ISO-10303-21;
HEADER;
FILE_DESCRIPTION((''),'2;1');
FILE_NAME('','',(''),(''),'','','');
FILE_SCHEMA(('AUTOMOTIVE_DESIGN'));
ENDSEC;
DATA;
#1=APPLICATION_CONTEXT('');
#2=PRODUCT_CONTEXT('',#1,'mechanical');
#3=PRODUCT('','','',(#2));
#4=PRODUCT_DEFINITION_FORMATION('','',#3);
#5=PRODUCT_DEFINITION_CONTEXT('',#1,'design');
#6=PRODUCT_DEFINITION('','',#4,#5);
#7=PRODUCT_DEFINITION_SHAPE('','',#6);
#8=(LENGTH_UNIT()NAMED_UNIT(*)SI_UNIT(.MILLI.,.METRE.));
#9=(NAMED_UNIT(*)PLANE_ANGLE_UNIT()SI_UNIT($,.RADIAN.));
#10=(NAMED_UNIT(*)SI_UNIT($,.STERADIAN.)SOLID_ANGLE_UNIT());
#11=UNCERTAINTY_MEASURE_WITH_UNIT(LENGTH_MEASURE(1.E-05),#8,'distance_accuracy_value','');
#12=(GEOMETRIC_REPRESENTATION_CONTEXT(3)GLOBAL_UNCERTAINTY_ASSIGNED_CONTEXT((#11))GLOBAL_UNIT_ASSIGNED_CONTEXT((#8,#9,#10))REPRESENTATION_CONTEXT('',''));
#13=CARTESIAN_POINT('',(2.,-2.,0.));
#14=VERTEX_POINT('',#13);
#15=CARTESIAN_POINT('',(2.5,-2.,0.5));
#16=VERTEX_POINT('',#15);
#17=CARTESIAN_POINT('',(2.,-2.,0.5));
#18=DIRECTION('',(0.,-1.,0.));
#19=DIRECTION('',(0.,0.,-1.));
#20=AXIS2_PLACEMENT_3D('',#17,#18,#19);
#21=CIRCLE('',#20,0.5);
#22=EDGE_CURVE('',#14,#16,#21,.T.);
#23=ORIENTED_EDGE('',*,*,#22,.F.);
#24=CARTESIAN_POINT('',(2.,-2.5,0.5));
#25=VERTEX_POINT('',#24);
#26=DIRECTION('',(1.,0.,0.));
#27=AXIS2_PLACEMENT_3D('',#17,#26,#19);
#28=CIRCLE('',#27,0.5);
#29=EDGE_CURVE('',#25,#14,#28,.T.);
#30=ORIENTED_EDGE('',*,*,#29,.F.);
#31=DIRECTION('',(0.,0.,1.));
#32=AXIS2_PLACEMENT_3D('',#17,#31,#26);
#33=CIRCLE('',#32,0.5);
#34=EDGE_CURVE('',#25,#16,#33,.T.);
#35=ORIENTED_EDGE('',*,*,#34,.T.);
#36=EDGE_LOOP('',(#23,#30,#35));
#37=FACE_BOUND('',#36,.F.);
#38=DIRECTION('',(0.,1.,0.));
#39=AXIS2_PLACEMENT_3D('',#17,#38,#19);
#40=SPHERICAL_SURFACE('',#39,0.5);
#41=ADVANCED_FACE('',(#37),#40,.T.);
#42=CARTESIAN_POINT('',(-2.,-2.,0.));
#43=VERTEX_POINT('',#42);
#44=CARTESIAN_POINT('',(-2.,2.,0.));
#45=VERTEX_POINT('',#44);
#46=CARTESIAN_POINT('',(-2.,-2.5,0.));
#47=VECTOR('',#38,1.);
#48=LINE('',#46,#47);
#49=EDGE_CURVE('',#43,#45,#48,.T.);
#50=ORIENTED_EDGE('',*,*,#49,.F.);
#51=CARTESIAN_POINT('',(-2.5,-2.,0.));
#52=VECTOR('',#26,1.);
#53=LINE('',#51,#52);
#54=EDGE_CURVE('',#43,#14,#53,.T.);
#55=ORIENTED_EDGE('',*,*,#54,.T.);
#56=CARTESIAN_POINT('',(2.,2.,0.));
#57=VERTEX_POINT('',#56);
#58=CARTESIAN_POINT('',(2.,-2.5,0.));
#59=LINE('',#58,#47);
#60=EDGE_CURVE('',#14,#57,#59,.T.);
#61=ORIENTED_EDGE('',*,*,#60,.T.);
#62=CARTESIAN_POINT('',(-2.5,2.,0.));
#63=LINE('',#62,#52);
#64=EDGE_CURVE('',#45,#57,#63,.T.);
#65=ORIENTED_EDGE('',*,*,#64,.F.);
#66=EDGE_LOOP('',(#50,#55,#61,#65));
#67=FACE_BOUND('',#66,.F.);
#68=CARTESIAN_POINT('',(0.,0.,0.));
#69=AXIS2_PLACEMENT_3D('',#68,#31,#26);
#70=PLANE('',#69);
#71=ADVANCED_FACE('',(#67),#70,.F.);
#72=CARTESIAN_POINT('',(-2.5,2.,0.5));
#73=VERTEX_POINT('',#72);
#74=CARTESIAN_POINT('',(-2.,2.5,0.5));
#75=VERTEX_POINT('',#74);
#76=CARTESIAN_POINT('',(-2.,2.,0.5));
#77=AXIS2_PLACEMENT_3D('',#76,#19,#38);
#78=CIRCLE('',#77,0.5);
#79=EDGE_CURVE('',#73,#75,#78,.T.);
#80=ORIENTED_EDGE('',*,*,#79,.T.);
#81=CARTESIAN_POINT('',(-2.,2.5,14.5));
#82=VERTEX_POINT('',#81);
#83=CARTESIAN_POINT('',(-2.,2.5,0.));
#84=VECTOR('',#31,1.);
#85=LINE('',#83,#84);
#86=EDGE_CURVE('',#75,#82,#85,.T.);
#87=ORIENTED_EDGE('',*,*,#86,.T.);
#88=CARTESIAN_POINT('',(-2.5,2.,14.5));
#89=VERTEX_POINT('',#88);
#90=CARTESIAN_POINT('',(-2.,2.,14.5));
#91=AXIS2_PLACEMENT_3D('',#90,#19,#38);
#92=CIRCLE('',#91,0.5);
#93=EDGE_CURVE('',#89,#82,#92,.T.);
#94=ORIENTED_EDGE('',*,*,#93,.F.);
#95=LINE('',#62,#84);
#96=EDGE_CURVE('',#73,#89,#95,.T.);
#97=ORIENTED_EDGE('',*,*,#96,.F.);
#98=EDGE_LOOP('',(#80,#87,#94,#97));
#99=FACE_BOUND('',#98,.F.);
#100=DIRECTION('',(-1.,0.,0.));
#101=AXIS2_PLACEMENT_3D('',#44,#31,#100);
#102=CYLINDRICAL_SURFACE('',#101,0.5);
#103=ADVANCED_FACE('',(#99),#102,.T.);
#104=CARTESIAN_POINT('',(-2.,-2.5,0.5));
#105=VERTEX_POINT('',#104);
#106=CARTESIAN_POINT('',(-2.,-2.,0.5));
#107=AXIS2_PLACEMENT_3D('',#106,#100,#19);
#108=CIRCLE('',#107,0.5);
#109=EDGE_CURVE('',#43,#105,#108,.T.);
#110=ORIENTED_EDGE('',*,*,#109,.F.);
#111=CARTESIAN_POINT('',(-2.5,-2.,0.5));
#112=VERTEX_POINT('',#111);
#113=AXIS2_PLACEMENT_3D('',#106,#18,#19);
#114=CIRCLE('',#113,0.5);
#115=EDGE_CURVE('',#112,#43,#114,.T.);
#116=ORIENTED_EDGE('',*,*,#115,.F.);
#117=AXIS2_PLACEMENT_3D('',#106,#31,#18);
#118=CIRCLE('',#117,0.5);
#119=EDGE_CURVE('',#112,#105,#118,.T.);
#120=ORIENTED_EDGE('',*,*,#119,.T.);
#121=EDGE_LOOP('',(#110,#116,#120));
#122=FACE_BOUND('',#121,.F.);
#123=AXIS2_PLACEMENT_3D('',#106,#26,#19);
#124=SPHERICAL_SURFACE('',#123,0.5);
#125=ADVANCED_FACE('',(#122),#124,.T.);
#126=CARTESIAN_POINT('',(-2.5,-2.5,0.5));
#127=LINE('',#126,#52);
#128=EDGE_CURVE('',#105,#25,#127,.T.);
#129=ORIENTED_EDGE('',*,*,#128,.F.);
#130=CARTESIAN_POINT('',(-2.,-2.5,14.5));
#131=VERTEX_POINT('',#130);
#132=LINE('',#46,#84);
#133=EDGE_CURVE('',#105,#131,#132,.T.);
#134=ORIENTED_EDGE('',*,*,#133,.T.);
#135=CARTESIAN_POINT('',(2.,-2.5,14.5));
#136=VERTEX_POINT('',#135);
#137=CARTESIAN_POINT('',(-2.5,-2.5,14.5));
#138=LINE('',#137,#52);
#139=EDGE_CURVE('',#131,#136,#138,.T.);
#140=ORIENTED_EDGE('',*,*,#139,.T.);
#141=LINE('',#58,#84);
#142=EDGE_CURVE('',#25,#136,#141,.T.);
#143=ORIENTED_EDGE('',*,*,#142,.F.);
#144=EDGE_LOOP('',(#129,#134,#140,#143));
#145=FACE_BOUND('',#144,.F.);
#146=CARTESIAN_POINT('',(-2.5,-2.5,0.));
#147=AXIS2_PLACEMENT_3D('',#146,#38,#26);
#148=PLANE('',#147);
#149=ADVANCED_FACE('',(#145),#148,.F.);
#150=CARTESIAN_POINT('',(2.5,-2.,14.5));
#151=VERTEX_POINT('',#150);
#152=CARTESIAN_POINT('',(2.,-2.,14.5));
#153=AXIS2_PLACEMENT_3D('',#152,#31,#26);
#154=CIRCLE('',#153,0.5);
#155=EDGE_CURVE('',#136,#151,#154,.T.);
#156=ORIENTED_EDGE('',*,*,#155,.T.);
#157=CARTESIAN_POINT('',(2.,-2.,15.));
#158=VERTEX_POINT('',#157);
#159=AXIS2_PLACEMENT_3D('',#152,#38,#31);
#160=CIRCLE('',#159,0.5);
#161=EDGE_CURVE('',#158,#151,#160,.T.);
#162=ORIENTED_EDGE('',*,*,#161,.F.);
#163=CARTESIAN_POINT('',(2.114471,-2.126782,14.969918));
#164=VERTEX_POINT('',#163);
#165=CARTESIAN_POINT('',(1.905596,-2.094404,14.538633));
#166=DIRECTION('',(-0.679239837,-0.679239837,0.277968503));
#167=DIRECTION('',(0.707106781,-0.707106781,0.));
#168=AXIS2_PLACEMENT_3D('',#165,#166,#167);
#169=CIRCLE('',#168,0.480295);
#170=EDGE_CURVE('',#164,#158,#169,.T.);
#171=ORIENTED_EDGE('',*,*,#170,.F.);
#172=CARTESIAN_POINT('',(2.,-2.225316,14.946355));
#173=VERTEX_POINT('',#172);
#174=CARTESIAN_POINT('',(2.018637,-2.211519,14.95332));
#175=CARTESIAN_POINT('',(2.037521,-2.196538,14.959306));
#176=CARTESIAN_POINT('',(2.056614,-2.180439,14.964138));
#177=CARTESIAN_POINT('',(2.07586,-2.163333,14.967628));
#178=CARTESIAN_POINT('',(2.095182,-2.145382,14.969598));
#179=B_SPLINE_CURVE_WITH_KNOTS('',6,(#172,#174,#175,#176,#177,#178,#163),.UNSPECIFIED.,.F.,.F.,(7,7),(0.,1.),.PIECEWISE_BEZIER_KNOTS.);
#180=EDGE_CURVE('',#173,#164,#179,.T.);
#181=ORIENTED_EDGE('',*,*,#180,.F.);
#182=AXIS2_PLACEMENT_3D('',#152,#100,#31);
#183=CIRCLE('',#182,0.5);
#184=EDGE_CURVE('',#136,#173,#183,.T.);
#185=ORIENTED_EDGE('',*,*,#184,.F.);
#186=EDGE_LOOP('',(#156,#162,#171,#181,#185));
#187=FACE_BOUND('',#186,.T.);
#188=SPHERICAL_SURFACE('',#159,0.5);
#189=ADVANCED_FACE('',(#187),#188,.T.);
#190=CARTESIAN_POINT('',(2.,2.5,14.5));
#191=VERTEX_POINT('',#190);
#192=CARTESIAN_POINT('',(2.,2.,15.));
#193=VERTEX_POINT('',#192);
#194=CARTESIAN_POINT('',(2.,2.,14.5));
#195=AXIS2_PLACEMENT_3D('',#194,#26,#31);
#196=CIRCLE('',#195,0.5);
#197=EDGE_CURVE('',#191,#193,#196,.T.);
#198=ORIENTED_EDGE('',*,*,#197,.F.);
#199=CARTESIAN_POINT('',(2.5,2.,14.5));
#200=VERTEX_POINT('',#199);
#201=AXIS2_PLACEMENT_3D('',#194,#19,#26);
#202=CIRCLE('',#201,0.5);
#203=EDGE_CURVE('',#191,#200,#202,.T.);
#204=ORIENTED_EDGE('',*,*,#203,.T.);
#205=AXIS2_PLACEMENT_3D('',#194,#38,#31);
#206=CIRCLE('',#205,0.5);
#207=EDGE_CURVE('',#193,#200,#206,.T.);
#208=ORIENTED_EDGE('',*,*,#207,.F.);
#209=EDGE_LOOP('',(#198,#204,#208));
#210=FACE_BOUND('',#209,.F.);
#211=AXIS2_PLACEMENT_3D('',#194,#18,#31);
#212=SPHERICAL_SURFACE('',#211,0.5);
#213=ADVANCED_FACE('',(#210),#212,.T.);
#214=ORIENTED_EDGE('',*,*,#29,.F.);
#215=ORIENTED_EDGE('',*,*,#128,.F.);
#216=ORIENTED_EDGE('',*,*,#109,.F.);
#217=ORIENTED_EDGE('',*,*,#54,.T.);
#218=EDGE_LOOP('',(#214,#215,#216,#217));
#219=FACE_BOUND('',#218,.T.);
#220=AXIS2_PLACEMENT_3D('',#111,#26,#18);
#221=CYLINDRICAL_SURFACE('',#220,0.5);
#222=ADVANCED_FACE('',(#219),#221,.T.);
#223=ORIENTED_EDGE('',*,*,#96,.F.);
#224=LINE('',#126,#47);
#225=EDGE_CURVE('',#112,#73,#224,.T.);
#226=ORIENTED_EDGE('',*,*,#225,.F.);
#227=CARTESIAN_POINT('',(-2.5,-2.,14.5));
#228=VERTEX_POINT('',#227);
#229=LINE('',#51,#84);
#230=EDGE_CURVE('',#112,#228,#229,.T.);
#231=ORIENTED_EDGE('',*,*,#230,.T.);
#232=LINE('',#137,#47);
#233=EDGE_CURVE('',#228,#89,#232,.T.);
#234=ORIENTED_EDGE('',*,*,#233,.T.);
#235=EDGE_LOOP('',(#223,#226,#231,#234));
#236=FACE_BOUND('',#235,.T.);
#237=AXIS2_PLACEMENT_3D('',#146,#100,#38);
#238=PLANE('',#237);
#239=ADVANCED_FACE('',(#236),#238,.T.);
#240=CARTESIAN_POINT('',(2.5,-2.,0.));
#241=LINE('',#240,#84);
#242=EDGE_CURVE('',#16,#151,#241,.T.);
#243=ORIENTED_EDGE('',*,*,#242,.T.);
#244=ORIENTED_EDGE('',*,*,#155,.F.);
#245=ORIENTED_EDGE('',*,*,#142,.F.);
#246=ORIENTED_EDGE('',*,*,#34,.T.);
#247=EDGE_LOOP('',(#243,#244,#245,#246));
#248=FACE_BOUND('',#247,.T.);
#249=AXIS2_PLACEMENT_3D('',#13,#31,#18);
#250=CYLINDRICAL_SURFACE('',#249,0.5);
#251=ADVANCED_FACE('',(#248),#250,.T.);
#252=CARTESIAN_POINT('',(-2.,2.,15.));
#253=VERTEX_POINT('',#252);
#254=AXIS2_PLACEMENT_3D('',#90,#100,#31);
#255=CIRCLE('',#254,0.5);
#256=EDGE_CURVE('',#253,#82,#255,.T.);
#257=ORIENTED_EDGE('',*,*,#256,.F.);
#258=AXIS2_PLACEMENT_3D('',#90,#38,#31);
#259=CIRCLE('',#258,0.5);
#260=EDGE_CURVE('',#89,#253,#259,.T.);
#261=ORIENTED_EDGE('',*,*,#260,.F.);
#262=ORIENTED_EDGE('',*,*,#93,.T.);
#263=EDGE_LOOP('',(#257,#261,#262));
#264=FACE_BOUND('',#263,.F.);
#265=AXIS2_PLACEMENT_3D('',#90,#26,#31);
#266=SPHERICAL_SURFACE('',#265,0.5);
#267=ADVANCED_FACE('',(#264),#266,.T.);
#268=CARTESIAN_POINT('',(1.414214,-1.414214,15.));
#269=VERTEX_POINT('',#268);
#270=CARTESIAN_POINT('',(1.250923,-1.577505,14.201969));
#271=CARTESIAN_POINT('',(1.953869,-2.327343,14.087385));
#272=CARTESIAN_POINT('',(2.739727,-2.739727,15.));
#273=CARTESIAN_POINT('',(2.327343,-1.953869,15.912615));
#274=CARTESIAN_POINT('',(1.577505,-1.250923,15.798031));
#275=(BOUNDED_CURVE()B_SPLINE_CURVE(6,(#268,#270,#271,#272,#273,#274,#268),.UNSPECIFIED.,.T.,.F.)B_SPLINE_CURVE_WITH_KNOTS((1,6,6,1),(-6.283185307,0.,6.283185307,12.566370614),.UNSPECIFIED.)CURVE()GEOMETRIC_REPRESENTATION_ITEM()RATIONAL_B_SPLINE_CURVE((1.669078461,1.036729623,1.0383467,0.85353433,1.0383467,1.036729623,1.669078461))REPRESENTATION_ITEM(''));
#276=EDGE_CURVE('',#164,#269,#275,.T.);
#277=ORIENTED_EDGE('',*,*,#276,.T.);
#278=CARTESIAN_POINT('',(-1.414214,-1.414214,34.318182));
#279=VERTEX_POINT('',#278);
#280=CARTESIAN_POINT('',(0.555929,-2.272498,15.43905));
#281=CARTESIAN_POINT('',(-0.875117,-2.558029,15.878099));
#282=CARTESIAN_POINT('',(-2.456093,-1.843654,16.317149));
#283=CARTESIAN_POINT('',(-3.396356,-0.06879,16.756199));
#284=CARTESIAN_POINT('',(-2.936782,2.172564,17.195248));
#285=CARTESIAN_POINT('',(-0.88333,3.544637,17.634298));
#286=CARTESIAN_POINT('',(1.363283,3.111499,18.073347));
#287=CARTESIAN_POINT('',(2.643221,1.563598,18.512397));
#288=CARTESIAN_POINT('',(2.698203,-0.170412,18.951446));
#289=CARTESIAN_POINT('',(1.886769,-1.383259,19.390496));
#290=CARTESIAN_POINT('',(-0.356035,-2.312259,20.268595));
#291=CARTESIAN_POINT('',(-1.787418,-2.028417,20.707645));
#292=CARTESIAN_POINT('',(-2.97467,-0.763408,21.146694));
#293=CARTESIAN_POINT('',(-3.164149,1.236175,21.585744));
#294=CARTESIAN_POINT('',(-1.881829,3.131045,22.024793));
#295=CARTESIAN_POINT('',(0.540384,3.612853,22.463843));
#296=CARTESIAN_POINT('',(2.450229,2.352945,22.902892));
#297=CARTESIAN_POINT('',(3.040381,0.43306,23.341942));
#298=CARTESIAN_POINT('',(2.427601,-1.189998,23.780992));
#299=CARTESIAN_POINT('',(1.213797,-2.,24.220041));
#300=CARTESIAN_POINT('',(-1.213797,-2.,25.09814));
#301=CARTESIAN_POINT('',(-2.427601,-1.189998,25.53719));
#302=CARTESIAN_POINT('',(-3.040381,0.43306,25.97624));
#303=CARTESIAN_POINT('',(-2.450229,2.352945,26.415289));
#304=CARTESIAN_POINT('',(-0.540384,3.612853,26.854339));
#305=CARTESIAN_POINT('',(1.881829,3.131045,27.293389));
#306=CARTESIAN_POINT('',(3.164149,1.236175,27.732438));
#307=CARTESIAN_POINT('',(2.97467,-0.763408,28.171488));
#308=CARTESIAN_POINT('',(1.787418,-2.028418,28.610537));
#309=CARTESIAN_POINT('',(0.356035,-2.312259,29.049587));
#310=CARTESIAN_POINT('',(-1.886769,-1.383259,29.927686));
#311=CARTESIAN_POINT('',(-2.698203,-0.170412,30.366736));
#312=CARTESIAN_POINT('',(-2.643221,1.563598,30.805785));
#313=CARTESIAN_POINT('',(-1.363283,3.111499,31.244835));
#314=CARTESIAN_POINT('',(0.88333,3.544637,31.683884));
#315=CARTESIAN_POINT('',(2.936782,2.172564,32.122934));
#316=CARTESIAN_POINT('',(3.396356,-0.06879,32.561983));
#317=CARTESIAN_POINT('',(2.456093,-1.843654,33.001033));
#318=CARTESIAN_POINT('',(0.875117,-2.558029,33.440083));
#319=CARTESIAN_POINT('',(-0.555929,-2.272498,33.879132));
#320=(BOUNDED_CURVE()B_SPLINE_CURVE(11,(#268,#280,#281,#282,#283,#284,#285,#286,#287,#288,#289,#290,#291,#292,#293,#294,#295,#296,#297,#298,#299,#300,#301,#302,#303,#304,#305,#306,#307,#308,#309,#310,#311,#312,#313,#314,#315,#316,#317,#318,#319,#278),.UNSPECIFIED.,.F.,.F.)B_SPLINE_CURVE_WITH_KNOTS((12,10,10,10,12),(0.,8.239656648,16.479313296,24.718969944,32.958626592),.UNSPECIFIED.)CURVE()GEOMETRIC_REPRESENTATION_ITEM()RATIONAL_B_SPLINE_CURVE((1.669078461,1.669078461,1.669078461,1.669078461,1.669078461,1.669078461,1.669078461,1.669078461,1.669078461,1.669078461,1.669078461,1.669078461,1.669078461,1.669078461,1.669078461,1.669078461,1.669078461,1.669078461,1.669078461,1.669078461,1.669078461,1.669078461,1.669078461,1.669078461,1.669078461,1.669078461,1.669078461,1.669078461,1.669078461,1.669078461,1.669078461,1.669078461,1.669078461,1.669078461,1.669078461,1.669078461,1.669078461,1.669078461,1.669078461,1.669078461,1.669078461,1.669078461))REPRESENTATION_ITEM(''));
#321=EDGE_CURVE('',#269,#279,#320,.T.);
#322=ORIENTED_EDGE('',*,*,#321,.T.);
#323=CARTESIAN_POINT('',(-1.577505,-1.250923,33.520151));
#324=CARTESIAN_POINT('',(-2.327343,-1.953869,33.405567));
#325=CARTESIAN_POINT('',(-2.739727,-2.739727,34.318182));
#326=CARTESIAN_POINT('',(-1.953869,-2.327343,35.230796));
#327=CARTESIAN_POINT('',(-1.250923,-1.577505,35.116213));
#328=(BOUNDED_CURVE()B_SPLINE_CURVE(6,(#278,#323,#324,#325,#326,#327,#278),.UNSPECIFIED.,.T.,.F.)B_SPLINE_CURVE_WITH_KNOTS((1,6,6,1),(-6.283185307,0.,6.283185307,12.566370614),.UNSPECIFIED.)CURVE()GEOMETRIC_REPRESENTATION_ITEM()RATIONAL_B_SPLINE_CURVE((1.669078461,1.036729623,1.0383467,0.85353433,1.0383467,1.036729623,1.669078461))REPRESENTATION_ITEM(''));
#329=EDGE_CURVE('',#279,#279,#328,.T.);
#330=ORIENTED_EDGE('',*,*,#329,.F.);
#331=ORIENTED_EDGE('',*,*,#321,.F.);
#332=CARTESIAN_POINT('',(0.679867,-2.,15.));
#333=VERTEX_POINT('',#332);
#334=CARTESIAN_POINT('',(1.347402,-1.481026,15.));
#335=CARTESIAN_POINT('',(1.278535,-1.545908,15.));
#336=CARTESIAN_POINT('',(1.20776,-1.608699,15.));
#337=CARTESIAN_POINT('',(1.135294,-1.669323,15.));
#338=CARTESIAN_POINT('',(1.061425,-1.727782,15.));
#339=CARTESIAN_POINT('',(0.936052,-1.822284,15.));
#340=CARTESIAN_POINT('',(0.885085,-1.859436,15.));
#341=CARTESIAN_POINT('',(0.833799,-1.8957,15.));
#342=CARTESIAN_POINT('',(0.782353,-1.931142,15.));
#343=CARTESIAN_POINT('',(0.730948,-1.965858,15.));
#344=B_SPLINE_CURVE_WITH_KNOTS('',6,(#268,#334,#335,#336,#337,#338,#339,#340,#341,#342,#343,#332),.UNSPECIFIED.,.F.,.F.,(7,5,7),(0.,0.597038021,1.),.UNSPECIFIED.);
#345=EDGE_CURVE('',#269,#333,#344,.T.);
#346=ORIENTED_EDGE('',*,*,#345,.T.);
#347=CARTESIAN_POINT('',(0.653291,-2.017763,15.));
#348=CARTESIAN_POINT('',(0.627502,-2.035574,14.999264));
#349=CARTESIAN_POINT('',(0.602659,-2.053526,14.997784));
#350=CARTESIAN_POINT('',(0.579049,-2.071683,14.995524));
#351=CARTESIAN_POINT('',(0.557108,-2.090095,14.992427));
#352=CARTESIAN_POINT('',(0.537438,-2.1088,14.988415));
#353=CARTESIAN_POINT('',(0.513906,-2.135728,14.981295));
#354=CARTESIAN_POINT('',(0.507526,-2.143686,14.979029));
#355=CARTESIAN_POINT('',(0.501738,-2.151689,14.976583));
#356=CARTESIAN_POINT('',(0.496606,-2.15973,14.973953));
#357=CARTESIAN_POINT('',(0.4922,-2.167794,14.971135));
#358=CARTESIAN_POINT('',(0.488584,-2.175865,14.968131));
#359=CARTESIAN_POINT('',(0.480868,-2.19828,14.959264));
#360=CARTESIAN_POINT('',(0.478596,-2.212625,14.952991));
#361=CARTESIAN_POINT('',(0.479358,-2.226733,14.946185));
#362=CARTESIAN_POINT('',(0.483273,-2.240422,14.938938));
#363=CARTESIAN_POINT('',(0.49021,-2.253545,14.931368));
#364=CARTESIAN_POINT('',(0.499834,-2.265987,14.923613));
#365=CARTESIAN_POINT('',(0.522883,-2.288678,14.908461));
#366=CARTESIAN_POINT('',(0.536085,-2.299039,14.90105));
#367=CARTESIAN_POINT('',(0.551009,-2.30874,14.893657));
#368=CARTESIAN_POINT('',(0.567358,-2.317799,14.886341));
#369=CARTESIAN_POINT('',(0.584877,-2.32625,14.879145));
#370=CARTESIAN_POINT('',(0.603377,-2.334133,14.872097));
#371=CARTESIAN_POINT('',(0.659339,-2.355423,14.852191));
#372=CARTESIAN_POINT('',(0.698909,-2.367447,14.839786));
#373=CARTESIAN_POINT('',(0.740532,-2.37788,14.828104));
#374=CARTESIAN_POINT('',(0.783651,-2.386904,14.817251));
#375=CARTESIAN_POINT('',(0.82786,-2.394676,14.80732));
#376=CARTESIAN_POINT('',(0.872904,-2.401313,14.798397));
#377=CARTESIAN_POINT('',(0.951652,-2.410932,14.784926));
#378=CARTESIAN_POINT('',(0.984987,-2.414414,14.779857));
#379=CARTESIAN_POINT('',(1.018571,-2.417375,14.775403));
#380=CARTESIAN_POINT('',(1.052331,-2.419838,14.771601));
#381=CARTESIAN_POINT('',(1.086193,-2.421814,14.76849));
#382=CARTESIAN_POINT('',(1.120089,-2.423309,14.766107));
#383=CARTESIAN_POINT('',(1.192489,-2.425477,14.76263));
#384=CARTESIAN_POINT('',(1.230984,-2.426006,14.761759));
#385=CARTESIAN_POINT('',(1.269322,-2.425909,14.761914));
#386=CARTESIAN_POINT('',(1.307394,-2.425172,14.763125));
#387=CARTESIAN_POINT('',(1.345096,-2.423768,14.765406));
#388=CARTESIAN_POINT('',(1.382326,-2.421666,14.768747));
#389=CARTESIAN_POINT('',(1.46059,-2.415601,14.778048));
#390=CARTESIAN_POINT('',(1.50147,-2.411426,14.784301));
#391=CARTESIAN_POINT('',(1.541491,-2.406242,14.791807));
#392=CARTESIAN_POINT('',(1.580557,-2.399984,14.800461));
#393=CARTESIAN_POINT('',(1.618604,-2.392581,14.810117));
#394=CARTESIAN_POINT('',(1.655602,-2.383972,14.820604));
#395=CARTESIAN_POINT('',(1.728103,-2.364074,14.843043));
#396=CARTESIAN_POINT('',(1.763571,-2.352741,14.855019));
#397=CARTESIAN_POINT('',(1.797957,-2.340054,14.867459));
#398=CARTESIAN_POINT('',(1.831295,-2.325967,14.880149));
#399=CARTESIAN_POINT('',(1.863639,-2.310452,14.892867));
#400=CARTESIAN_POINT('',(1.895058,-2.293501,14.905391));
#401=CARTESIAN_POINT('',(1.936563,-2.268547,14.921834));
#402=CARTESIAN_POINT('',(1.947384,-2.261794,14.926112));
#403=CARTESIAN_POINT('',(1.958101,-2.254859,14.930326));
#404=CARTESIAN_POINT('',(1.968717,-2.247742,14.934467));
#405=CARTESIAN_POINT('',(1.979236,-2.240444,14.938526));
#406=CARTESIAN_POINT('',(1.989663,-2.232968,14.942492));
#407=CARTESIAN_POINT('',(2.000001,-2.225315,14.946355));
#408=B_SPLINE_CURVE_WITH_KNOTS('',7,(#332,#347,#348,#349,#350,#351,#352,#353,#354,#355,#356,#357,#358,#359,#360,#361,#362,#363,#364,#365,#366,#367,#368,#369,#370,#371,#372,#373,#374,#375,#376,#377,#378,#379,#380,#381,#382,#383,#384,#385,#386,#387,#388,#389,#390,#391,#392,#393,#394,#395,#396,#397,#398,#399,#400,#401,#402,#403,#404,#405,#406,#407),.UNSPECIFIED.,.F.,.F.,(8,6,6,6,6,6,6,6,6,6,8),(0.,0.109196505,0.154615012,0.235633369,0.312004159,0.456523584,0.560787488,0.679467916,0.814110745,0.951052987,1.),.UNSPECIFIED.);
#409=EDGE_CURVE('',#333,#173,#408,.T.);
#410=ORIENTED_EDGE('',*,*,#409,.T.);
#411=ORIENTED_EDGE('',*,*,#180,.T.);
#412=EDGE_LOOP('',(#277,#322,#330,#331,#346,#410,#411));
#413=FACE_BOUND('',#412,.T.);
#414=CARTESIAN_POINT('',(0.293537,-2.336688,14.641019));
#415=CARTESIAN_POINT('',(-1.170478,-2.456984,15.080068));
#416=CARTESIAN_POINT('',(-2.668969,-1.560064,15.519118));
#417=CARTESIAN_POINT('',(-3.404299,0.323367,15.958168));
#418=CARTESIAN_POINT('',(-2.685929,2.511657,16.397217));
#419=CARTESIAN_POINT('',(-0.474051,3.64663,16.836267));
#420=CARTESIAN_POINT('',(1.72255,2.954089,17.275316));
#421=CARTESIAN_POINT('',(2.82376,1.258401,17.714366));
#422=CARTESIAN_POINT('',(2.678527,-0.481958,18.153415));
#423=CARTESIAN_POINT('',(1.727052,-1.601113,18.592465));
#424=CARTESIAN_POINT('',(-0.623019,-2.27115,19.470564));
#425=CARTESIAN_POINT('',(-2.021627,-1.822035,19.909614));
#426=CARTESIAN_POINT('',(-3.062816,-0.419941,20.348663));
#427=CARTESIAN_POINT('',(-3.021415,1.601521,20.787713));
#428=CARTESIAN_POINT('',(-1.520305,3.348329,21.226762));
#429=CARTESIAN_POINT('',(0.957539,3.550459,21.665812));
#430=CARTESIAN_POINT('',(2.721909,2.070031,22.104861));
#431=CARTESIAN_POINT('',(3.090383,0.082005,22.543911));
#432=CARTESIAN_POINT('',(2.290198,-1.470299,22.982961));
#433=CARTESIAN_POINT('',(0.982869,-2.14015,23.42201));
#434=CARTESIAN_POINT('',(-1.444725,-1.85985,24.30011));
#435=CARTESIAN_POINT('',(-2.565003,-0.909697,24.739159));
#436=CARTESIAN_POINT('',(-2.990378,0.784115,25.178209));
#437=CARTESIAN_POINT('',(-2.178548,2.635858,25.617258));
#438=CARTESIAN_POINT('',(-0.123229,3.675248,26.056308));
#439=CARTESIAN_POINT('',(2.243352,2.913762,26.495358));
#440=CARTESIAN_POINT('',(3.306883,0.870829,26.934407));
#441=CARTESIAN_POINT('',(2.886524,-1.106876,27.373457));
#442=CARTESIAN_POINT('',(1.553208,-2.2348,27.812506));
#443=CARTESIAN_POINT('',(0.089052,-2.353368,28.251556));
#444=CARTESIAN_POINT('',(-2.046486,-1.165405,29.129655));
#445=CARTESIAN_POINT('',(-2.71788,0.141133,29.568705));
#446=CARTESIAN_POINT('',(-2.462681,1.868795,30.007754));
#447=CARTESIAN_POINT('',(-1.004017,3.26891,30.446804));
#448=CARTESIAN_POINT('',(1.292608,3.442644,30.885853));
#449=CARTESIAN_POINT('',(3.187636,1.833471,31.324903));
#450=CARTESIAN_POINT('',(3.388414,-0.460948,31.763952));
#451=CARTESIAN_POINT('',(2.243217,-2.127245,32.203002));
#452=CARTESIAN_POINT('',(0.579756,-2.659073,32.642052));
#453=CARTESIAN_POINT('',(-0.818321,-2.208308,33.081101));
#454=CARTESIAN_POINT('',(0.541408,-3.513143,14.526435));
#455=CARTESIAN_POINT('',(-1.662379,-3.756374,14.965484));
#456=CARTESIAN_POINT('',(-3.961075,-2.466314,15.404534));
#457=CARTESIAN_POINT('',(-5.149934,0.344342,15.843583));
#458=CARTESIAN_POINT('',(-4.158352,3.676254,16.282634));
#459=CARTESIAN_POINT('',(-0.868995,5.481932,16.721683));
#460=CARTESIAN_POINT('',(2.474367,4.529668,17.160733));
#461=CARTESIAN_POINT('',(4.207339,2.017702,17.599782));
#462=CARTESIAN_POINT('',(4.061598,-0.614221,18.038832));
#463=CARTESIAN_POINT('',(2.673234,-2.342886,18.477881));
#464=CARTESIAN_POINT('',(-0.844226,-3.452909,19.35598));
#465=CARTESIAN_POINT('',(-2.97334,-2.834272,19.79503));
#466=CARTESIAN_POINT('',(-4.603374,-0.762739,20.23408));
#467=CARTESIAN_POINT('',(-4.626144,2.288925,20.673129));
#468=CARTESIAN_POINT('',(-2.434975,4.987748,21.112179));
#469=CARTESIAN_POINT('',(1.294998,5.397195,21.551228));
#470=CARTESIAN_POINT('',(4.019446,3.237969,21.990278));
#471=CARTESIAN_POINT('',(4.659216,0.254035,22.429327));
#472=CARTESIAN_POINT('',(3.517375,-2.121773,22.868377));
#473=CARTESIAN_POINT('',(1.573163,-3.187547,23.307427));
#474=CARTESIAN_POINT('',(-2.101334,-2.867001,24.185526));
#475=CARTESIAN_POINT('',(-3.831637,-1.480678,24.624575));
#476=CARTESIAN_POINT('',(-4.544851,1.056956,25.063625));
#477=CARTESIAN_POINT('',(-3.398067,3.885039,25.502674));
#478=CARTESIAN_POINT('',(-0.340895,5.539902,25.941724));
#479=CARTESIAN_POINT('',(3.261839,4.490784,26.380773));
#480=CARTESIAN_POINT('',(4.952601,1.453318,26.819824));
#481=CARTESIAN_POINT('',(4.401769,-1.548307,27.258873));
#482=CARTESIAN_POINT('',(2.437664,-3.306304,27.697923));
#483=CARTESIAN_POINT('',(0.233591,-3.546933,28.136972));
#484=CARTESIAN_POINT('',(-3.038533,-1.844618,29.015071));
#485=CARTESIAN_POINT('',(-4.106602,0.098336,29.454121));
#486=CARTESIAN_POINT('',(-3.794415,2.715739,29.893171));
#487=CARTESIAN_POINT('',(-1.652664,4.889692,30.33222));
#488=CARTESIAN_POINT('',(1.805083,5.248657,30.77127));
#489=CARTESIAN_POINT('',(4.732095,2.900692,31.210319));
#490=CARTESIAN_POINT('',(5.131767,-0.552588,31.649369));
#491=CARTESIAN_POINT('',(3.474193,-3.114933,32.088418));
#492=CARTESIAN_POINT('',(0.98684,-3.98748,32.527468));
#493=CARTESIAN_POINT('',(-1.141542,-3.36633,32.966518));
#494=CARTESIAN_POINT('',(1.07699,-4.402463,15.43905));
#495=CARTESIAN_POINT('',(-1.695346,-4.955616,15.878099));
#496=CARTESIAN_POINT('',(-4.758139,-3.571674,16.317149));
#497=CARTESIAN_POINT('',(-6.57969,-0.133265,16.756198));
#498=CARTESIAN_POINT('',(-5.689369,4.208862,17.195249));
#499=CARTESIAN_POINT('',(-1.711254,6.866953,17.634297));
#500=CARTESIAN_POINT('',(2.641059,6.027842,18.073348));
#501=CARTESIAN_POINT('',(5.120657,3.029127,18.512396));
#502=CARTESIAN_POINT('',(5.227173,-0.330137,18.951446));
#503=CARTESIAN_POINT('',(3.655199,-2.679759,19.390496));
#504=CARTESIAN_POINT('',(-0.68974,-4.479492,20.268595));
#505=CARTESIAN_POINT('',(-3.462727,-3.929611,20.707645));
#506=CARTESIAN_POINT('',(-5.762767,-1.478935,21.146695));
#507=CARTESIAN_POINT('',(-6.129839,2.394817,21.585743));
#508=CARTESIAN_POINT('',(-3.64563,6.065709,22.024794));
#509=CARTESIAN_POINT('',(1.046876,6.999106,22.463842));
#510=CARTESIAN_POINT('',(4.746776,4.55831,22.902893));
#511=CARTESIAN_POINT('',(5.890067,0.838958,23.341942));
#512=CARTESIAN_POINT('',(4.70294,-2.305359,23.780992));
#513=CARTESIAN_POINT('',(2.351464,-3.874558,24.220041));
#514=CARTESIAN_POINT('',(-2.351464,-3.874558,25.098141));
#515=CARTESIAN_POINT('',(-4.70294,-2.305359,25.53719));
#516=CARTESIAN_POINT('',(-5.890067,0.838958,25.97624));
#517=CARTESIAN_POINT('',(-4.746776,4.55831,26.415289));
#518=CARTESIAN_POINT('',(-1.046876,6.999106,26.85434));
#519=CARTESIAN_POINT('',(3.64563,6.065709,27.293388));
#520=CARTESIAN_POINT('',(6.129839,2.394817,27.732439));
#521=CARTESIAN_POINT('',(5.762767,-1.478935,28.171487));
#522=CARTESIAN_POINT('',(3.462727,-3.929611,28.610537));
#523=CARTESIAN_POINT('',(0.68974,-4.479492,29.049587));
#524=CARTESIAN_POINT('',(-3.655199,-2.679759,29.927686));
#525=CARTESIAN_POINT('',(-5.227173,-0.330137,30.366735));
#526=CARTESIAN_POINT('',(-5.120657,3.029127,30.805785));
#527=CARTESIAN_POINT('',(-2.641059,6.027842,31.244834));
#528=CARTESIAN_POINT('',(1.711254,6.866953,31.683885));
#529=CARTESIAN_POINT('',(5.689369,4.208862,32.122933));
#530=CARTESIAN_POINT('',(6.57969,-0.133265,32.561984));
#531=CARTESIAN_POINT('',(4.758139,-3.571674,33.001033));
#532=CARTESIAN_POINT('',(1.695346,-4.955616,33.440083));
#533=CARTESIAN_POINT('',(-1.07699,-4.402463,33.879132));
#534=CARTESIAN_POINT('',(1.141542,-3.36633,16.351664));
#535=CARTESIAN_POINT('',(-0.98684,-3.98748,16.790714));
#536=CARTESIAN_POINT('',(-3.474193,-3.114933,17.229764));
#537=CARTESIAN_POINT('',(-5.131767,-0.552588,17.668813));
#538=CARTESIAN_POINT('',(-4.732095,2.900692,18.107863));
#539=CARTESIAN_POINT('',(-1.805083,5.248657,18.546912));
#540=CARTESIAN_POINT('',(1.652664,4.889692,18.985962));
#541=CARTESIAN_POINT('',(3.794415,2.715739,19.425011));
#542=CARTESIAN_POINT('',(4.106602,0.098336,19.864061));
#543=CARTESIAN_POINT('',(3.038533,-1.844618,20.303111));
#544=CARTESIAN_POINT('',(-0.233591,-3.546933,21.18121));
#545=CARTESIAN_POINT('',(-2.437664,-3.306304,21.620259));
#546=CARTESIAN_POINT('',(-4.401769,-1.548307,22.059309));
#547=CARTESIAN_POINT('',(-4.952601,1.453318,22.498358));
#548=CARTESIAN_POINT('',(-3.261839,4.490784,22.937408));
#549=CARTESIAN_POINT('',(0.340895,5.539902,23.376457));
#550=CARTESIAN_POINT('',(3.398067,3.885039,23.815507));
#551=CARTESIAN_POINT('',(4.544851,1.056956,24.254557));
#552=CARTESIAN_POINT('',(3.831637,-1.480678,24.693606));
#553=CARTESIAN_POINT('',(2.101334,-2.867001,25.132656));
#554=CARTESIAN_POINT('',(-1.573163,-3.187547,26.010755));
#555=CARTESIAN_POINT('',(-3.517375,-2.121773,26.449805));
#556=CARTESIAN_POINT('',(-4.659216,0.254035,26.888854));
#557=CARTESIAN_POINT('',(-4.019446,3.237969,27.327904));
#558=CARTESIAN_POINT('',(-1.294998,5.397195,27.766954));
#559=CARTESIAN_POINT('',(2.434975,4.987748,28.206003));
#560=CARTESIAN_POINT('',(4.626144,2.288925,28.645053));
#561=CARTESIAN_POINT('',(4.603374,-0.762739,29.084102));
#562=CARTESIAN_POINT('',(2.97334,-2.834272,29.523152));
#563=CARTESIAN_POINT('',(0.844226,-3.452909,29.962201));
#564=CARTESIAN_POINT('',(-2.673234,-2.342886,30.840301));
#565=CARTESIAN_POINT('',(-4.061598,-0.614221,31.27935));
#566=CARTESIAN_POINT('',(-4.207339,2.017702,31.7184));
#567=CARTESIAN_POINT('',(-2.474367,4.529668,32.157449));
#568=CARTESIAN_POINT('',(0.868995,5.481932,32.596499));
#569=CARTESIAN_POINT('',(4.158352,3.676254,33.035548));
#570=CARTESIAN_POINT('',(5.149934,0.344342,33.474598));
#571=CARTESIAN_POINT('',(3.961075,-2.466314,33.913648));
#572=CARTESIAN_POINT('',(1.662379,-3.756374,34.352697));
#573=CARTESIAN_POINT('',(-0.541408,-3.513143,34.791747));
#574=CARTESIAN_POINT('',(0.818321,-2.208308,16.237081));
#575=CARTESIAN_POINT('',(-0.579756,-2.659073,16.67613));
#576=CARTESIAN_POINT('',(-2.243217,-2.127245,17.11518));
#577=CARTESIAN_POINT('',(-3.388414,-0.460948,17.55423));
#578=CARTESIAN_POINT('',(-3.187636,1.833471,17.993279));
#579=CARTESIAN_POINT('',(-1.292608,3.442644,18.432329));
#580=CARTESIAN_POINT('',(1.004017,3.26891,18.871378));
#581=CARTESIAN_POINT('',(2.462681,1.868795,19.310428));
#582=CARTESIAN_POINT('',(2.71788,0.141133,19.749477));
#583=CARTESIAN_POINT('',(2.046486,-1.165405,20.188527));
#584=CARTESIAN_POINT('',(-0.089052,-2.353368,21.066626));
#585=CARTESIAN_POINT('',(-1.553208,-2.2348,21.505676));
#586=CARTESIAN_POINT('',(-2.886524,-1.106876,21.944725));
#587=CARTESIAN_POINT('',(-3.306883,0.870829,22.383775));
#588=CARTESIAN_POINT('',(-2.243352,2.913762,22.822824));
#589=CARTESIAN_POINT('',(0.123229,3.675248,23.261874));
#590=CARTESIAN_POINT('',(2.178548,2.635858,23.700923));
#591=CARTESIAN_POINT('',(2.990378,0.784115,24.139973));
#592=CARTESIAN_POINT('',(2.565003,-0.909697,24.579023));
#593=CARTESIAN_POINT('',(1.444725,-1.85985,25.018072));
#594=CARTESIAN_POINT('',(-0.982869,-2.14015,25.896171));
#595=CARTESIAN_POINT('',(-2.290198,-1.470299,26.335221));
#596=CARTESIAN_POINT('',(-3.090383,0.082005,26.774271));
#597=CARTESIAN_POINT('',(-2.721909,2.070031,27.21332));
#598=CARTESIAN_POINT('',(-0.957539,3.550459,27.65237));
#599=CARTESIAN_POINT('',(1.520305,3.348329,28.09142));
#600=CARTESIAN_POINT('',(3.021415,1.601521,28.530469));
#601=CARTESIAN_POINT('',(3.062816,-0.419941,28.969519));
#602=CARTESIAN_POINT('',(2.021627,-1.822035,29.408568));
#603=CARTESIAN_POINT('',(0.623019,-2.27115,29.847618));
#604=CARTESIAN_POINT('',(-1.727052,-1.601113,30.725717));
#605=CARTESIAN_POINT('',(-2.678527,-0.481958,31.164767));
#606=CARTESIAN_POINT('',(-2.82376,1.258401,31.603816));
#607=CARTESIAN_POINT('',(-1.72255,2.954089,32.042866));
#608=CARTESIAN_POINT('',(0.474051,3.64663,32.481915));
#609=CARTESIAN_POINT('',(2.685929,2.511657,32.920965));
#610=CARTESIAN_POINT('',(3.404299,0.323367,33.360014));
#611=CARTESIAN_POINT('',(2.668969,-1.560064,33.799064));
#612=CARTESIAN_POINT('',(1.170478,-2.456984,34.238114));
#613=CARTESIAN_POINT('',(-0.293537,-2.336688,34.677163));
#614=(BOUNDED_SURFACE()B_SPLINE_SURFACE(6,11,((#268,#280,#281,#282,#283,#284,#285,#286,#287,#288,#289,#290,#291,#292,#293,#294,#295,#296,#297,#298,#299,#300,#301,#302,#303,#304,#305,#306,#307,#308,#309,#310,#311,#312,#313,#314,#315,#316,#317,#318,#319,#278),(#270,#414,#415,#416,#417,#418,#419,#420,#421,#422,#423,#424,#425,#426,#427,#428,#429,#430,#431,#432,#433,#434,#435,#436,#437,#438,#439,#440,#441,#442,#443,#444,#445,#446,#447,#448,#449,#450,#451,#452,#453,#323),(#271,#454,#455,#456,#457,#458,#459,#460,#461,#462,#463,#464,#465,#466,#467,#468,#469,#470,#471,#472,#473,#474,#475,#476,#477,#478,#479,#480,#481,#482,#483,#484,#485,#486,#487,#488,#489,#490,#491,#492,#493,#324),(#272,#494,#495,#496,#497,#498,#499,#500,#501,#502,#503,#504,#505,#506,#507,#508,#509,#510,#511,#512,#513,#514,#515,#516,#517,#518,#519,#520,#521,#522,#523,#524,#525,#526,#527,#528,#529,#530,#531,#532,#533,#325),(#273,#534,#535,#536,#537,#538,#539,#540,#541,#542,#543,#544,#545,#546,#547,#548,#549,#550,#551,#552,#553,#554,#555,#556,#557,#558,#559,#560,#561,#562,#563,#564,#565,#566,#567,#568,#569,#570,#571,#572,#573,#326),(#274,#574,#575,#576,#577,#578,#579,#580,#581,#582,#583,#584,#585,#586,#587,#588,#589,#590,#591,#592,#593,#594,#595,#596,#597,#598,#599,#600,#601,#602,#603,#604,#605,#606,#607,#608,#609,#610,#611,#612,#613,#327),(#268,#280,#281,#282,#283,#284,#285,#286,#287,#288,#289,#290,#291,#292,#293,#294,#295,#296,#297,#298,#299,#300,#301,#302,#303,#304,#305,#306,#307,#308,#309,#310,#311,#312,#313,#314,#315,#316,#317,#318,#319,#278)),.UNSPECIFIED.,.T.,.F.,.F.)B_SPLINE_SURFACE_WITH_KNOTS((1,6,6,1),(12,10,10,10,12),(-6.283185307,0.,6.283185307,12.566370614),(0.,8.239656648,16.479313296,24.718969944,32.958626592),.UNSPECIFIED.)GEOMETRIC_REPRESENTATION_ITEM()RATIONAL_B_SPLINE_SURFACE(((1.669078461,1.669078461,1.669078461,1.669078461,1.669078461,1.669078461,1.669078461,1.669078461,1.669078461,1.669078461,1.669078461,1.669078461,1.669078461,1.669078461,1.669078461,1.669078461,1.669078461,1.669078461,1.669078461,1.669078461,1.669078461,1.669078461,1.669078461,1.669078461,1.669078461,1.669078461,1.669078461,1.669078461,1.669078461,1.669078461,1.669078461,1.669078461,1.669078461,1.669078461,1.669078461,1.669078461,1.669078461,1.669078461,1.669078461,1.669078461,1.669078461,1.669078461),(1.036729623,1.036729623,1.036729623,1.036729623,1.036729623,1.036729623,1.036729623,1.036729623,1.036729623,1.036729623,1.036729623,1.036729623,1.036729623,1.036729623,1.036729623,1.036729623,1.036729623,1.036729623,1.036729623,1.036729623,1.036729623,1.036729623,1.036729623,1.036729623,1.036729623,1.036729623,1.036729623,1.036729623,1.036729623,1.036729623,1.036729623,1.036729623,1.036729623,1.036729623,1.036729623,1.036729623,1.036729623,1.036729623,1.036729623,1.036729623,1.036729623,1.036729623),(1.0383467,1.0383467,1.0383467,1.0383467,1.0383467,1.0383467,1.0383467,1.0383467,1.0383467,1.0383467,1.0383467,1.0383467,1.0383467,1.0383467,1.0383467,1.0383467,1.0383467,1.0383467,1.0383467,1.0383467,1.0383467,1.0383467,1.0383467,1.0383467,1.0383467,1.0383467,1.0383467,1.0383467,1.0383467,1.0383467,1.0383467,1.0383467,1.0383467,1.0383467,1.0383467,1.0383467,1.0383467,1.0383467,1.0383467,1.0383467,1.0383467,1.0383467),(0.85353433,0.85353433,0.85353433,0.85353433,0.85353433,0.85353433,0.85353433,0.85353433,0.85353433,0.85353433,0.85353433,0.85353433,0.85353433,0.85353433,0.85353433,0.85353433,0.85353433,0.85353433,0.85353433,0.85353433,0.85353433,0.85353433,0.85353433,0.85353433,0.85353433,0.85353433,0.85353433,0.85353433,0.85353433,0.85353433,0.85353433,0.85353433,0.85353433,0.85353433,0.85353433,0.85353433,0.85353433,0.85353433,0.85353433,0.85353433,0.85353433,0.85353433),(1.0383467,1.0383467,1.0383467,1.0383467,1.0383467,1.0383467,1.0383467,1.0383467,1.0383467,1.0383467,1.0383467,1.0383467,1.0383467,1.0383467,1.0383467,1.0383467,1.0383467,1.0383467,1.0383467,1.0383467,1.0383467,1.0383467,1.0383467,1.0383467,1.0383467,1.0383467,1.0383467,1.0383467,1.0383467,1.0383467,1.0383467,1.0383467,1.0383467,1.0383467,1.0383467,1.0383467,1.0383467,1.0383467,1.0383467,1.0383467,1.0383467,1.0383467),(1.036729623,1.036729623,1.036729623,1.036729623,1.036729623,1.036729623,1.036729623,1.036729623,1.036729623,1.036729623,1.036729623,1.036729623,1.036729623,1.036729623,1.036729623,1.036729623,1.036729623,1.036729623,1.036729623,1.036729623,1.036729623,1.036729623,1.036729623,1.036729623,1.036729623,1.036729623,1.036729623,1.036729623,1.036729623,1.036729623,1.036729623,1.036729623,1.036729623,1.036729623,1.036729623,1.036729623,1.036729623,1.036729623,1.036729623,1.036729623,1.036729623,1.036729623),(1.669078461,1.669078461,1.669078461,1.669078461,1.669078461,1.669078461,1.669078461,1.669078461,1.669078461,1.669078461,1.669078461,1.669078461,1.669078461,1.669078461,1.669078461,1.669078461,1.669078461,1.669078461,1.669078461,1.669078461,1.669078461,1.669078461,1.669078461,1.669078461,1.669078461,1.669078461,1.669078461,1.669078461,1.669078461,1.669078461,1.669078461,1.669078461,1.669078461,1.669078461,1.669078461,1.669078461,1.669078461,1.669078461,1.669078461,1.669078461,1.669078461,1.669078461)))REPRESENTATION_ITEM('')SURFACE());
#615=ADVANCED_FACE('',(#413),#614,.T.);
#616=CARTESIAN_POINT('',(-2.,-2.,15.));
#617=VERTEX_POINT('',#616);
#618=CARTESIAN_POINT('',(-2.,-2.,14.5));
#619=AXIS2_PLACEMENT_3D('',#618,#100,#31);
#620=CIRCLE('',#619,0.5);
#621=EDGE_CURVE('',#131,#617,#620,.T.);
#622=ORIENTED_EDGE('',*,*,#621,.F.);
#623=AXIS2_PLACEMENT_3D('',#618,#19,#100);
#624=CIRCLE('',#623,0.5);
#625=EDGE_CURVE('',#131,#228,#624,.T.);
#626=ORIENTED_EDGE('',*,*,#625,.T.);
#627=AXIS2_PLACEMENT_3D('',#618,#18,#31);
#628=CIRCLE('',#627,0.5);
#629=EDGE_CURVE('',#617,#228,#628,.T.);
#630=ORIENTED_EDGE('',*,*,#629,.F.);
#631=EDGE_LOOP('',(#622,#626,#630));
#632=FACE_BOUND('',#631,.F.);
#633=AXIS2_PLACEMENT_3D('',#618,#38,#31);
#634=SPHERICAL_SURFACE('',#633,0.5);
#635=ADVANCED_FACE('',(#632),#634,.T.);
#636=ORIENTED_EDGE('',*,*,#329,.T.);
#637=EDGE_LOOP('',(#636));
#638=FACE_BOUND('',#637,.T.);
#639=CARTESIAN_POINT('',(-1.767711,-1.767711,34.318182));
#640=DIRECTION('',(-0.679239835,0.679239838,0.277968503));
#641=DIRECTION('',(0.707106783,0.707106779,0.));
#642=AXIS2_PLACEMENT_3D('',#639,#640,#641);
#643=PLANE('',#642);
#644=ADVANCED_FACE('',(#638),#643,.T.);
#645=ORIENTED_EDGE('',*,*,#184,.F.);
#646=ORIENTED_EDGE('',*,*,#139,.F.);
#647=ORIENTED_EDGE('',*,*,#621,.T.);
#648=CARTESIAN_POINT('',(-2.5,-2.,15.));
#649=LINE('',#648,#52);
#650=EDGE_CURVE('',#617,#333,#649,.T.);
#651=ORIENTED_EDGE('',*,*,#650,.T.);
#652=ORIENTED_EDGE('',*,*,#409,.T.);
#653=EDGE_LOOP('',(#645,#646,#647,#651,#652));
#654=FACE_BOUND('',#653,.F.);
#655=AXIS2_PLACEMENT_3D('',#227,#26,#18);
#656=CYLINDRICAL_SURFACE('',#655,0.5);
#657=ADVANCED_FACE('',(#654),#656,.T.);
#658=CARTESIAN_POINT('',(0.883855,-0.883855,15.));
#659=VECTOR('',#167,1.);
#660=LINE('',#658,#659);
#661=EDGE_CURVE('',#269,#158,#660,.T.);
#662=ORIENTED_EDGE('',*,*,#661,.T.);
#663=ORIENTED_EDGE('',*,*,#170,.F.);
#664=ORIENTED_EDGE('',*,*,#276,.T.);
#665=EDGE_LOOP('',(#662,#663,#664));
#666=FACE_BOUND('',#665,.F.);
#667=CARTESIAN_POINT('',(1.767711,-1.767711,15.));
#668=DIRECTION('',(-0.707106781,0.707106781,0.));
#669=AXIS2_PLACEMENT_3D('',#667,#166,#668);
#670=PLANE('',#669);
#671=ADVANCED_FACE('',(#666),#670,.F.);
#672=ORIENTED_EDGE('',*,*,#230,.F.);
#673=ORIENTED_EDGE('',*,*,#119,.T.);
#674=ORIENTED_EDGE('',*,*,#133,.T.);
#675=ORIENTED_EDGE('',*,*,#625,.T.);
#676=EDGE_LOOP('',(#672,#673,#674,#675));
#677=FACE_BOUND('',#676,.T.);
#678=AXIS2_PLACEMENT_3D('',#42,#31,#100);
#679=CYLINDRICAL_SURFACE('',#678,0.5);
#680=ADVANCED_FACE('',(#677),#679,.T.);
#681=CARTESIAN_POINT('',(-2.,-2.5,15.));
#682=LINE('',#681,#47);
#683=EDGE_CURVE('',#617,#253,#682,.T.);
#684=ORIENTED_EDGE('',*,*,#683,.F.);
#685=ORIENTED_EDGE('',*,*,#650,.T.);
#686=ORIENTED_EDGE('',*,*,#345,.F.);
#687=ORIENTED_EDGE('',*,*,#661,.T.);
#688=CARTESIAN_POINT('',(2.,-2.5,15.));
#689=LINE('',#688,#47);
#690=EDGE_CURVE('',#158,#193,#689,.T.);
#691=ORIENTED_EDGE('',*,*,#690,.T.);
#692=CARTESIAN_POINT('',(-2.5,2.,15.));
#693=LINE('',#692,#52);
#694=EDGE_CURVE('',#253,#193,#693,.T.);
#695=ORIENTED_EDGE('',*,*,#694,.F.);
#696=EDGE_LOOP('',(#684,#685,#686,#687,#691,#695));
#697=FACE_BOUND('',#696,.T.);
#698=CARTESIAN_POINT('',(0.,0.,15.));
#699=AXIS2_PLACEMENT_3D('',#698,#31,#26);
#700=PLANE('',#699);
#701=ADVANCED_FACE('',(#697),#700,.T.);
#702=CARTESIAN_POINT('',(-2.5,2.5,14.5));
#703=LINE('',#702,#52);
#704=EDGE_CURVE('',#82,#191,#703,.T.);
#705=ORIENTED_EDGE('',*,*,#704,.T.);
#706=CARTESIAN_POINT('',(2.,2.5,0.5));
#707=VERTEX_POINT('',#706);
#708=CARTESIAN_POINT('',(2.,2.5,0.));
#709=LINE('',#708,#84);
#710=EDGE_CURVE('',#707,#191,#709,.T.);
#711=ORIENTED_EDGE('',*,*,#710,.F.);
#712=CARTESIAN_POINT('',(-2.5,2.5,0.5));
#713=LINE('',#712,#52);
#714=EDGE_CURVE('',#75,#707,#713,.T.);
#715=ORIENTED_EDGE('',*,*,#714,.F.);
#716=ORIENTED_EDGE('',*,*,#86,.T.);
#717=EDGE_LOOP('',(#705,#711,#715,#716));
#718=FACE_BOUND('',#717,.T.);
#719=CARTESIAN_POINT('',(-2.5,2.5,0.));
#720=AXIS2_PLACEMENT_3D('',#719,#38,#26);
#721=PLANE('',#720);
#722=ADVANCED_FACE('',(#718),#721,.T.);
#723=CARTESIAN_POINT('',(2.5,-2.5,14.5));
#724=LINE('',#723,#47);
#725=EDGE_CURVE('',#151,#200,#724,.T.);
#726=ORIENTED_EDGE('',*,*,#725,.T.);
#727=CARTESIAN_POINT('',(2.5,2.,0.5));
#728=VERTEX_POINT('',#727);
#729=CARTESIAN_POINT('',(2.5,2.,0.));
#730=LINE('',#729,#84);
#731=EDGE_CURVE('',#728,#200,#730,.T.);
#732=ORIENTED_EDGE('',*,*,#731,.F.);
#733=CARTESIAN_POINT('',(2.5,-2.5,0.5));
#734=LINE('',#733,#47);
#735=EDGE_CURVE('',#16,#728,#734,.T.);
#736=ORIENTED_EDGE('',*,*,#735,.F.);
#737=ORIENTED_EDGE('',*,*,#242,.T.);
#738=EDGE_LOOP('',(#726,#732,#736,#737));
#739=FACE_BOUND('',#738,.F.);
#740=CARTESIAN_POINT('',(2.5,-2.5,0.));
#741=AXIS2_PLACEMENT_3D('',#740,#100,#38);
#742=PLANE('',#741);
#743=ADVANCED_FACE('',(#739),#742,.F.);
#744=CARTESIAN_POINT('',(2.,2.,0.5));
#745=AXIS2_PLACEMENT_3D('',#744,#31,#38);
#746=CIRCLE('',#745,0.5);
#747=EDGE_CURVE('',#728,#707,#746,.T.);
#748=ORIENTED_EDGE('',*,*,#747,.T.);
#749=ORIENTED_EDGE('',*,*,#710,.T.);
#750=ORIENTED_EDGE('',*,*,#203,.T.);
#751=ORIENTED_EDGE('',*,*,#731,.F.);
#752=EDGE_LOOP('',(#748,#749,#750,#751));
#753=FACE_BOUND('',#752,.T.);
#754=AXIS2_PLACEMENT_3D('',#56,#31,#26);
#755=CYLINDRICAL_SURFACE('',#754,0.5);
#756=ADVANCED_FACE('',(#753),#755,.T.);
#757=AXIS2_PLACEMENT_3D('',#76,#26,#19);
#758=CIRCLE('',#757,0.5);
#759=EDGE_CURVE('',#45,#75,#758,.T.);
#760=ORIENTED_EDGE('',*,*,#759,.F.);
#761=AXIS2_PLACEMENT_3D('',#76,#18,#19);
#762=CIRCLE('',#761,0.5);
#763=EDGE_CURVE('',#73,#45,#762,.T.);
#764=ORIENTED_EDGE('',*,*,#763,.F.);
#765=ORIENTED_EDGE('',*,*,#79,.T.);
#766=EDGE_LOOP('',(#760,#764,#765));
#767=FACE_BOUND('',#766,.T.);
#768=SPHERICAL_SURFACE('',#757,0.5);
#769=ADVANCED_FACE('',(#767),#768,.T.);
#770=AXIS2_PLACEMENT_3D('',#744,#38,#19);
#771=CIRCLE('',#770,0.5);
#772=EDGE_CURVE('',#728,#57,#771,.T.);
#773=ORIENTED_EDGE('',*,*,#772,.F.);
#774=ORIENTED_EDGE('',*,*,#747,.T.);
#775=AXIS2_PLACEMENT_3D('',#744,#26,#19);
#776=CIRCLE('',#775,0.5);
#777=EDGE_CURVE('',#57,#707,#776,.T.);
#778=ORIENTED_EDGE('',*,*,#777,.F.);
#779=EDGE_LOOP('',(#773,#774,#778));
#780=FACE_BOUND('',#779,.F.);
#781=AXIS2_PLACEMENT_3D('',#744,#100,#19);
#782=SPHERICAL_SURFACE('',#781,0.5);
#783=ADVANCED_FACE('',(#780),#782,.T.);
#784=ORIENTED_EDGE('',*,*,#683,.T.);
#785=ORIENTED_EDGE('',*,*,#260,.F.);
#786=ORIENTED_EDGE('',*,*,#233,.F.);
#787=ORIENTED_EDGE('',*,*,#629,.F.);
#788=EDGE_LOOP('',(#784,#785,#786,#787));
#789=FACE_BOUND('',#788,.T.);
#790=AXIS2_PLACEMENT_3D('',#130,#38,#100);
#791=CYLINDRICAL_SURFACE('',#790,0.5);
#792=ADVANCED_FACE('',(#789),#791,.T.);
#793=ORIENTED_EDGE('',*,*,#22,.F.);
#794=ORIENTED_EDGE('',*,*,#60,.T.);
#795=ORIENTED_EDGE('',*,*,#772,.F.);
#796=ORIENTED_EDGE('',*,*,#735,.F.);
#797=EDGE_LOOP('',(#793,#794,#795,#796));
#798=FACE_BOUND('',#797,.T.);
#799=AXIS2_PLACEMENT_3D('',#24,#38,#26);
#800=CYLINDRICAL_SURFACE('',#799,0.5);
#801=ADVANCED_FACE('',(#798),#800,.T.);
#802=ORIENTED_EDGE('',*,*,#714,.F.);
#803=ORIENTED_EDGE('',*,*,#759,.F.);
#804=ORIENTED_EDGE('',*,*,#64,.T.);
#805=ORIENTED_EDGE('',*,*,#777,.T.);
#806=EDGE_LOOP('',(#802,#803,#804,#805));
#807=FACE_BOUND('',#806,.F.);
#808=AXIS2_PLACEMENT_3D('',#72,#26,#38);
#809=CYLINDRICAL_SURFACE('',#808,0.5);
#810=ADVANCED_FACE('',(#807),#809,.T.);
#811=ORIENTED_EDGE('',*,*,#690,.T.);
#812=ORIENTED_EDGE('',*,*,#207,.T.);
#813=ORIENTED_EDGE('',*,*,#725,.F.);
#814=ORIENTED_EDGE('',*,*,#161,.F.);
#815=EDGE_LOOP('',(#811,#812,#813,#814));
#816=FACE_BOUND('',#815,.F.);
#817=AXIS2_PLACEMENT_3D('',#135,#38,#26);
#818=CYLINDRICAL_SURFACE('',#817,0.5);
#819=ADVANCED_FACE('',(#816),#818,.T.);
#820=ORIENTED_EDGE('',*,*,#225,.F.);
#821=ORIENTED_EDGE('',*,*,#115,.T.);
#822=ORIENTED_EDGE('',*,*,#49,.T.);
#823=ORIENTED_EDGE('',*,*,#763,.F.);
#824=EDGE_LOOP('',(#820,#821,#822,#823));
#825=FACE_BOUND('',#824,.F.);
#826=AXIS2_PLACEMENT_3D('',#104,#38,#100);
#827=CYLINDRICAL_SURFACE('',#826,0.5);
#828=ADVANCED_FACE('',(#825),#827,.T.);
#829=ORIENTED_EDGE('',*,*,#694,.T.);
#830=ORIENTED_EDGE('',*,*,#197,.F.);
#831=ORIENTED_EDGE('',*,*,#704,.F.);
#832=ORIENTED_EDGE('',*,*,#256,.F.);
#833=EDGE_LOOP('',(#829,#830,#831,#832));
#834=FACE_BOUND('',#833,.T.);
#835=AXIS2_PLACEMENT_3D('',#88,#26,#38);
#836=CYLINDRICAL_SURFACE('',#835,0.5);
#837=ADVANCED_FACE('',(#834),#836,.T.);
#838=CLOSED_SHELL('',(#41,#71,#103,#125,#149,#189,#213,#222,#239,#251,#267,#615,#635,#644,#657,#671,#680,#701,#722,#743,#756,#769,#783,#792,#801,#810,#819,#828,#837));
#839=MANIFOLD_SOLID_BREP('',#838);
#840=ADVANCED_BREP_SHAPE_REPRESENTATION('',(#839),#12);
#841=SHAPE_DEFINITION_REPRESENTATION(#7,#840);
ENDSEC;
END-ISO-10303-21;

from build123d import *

# Parameters (mm, degrees)
SKETCH1_W           = 5
SKETCH1_H           = 5
BOSS_EXTRUDE1_DEPTH = 15
FILLET1_R           = 0.5
SWEEP1_PITCH        = 4.545454545
SWEEP1_HEIGHT       = 19.318181818
SWEEP1_RADIUS       = 2.5
SWEEP1_START_ANGLE  = -45
SWEEP1_PROFILE_R    = 0.5


with BuildPart() as part:
    # Sketch1 → Boss-Extrude1 (new body)
    with BuildSketch(Plane.XY):
        Rectangle(SKETCH1_W, SKETCH1_H)
    extrude(amount=BOSS_EXTRUDE1_DEPTH)

    # Fillet1
    fillet1_edges = [part.edges().sort_by_distance(p)[0] for p in [
        (2.5, 0, 15),
        (0, 2.5, 15),
        (-2.5, 0, 15),
        (0, 2.5, 0),
        (2.5, 0, 0),
        (0, -2.5, 0),
        (-2.5, 0, 0),
        (0, -2.5, 15),
        (-2.5, 2.5, 7.5),
        (2.5, 2.5, 7.5),
        (2.5, -2.5, 7.5),
        (-2.5, -2.5, 7.5),
    ]]
    fillet(fillet1_edges, radius=FILLET1_R)

    # Sweep1: sweep along a helix
    with BuildLine() as sweep1_path:
        add(Helix(SWEEP1_PITCH, SWEEP1_HEIGHT, SWEEP1_RADIUS, center=(0, 0, 15), direction=(0, 0, 1), lefthand=True, mode=Mode.PRIVATE).rotate(Axis((0, 0, 15), (0, 0, 1)), SWEEP1_START_ANGLE))
    # Sweep1 profile (on start of the path) → Sweep1 (sweep)
    with BuildSketch(Plane(origin=(1.767766953, -1.767766953, 15), x_dir=(-0.7071067811867117, 0.7071067811863837, 0), z_dir=(-0.6792398365554757, -0.6792398365557908, 0.27796850338078505))):
        Circle(SWEEP1_PROFILE_R)
    sweep(path=sweep1_path.line, is_frenet=True)


solid = part.part
